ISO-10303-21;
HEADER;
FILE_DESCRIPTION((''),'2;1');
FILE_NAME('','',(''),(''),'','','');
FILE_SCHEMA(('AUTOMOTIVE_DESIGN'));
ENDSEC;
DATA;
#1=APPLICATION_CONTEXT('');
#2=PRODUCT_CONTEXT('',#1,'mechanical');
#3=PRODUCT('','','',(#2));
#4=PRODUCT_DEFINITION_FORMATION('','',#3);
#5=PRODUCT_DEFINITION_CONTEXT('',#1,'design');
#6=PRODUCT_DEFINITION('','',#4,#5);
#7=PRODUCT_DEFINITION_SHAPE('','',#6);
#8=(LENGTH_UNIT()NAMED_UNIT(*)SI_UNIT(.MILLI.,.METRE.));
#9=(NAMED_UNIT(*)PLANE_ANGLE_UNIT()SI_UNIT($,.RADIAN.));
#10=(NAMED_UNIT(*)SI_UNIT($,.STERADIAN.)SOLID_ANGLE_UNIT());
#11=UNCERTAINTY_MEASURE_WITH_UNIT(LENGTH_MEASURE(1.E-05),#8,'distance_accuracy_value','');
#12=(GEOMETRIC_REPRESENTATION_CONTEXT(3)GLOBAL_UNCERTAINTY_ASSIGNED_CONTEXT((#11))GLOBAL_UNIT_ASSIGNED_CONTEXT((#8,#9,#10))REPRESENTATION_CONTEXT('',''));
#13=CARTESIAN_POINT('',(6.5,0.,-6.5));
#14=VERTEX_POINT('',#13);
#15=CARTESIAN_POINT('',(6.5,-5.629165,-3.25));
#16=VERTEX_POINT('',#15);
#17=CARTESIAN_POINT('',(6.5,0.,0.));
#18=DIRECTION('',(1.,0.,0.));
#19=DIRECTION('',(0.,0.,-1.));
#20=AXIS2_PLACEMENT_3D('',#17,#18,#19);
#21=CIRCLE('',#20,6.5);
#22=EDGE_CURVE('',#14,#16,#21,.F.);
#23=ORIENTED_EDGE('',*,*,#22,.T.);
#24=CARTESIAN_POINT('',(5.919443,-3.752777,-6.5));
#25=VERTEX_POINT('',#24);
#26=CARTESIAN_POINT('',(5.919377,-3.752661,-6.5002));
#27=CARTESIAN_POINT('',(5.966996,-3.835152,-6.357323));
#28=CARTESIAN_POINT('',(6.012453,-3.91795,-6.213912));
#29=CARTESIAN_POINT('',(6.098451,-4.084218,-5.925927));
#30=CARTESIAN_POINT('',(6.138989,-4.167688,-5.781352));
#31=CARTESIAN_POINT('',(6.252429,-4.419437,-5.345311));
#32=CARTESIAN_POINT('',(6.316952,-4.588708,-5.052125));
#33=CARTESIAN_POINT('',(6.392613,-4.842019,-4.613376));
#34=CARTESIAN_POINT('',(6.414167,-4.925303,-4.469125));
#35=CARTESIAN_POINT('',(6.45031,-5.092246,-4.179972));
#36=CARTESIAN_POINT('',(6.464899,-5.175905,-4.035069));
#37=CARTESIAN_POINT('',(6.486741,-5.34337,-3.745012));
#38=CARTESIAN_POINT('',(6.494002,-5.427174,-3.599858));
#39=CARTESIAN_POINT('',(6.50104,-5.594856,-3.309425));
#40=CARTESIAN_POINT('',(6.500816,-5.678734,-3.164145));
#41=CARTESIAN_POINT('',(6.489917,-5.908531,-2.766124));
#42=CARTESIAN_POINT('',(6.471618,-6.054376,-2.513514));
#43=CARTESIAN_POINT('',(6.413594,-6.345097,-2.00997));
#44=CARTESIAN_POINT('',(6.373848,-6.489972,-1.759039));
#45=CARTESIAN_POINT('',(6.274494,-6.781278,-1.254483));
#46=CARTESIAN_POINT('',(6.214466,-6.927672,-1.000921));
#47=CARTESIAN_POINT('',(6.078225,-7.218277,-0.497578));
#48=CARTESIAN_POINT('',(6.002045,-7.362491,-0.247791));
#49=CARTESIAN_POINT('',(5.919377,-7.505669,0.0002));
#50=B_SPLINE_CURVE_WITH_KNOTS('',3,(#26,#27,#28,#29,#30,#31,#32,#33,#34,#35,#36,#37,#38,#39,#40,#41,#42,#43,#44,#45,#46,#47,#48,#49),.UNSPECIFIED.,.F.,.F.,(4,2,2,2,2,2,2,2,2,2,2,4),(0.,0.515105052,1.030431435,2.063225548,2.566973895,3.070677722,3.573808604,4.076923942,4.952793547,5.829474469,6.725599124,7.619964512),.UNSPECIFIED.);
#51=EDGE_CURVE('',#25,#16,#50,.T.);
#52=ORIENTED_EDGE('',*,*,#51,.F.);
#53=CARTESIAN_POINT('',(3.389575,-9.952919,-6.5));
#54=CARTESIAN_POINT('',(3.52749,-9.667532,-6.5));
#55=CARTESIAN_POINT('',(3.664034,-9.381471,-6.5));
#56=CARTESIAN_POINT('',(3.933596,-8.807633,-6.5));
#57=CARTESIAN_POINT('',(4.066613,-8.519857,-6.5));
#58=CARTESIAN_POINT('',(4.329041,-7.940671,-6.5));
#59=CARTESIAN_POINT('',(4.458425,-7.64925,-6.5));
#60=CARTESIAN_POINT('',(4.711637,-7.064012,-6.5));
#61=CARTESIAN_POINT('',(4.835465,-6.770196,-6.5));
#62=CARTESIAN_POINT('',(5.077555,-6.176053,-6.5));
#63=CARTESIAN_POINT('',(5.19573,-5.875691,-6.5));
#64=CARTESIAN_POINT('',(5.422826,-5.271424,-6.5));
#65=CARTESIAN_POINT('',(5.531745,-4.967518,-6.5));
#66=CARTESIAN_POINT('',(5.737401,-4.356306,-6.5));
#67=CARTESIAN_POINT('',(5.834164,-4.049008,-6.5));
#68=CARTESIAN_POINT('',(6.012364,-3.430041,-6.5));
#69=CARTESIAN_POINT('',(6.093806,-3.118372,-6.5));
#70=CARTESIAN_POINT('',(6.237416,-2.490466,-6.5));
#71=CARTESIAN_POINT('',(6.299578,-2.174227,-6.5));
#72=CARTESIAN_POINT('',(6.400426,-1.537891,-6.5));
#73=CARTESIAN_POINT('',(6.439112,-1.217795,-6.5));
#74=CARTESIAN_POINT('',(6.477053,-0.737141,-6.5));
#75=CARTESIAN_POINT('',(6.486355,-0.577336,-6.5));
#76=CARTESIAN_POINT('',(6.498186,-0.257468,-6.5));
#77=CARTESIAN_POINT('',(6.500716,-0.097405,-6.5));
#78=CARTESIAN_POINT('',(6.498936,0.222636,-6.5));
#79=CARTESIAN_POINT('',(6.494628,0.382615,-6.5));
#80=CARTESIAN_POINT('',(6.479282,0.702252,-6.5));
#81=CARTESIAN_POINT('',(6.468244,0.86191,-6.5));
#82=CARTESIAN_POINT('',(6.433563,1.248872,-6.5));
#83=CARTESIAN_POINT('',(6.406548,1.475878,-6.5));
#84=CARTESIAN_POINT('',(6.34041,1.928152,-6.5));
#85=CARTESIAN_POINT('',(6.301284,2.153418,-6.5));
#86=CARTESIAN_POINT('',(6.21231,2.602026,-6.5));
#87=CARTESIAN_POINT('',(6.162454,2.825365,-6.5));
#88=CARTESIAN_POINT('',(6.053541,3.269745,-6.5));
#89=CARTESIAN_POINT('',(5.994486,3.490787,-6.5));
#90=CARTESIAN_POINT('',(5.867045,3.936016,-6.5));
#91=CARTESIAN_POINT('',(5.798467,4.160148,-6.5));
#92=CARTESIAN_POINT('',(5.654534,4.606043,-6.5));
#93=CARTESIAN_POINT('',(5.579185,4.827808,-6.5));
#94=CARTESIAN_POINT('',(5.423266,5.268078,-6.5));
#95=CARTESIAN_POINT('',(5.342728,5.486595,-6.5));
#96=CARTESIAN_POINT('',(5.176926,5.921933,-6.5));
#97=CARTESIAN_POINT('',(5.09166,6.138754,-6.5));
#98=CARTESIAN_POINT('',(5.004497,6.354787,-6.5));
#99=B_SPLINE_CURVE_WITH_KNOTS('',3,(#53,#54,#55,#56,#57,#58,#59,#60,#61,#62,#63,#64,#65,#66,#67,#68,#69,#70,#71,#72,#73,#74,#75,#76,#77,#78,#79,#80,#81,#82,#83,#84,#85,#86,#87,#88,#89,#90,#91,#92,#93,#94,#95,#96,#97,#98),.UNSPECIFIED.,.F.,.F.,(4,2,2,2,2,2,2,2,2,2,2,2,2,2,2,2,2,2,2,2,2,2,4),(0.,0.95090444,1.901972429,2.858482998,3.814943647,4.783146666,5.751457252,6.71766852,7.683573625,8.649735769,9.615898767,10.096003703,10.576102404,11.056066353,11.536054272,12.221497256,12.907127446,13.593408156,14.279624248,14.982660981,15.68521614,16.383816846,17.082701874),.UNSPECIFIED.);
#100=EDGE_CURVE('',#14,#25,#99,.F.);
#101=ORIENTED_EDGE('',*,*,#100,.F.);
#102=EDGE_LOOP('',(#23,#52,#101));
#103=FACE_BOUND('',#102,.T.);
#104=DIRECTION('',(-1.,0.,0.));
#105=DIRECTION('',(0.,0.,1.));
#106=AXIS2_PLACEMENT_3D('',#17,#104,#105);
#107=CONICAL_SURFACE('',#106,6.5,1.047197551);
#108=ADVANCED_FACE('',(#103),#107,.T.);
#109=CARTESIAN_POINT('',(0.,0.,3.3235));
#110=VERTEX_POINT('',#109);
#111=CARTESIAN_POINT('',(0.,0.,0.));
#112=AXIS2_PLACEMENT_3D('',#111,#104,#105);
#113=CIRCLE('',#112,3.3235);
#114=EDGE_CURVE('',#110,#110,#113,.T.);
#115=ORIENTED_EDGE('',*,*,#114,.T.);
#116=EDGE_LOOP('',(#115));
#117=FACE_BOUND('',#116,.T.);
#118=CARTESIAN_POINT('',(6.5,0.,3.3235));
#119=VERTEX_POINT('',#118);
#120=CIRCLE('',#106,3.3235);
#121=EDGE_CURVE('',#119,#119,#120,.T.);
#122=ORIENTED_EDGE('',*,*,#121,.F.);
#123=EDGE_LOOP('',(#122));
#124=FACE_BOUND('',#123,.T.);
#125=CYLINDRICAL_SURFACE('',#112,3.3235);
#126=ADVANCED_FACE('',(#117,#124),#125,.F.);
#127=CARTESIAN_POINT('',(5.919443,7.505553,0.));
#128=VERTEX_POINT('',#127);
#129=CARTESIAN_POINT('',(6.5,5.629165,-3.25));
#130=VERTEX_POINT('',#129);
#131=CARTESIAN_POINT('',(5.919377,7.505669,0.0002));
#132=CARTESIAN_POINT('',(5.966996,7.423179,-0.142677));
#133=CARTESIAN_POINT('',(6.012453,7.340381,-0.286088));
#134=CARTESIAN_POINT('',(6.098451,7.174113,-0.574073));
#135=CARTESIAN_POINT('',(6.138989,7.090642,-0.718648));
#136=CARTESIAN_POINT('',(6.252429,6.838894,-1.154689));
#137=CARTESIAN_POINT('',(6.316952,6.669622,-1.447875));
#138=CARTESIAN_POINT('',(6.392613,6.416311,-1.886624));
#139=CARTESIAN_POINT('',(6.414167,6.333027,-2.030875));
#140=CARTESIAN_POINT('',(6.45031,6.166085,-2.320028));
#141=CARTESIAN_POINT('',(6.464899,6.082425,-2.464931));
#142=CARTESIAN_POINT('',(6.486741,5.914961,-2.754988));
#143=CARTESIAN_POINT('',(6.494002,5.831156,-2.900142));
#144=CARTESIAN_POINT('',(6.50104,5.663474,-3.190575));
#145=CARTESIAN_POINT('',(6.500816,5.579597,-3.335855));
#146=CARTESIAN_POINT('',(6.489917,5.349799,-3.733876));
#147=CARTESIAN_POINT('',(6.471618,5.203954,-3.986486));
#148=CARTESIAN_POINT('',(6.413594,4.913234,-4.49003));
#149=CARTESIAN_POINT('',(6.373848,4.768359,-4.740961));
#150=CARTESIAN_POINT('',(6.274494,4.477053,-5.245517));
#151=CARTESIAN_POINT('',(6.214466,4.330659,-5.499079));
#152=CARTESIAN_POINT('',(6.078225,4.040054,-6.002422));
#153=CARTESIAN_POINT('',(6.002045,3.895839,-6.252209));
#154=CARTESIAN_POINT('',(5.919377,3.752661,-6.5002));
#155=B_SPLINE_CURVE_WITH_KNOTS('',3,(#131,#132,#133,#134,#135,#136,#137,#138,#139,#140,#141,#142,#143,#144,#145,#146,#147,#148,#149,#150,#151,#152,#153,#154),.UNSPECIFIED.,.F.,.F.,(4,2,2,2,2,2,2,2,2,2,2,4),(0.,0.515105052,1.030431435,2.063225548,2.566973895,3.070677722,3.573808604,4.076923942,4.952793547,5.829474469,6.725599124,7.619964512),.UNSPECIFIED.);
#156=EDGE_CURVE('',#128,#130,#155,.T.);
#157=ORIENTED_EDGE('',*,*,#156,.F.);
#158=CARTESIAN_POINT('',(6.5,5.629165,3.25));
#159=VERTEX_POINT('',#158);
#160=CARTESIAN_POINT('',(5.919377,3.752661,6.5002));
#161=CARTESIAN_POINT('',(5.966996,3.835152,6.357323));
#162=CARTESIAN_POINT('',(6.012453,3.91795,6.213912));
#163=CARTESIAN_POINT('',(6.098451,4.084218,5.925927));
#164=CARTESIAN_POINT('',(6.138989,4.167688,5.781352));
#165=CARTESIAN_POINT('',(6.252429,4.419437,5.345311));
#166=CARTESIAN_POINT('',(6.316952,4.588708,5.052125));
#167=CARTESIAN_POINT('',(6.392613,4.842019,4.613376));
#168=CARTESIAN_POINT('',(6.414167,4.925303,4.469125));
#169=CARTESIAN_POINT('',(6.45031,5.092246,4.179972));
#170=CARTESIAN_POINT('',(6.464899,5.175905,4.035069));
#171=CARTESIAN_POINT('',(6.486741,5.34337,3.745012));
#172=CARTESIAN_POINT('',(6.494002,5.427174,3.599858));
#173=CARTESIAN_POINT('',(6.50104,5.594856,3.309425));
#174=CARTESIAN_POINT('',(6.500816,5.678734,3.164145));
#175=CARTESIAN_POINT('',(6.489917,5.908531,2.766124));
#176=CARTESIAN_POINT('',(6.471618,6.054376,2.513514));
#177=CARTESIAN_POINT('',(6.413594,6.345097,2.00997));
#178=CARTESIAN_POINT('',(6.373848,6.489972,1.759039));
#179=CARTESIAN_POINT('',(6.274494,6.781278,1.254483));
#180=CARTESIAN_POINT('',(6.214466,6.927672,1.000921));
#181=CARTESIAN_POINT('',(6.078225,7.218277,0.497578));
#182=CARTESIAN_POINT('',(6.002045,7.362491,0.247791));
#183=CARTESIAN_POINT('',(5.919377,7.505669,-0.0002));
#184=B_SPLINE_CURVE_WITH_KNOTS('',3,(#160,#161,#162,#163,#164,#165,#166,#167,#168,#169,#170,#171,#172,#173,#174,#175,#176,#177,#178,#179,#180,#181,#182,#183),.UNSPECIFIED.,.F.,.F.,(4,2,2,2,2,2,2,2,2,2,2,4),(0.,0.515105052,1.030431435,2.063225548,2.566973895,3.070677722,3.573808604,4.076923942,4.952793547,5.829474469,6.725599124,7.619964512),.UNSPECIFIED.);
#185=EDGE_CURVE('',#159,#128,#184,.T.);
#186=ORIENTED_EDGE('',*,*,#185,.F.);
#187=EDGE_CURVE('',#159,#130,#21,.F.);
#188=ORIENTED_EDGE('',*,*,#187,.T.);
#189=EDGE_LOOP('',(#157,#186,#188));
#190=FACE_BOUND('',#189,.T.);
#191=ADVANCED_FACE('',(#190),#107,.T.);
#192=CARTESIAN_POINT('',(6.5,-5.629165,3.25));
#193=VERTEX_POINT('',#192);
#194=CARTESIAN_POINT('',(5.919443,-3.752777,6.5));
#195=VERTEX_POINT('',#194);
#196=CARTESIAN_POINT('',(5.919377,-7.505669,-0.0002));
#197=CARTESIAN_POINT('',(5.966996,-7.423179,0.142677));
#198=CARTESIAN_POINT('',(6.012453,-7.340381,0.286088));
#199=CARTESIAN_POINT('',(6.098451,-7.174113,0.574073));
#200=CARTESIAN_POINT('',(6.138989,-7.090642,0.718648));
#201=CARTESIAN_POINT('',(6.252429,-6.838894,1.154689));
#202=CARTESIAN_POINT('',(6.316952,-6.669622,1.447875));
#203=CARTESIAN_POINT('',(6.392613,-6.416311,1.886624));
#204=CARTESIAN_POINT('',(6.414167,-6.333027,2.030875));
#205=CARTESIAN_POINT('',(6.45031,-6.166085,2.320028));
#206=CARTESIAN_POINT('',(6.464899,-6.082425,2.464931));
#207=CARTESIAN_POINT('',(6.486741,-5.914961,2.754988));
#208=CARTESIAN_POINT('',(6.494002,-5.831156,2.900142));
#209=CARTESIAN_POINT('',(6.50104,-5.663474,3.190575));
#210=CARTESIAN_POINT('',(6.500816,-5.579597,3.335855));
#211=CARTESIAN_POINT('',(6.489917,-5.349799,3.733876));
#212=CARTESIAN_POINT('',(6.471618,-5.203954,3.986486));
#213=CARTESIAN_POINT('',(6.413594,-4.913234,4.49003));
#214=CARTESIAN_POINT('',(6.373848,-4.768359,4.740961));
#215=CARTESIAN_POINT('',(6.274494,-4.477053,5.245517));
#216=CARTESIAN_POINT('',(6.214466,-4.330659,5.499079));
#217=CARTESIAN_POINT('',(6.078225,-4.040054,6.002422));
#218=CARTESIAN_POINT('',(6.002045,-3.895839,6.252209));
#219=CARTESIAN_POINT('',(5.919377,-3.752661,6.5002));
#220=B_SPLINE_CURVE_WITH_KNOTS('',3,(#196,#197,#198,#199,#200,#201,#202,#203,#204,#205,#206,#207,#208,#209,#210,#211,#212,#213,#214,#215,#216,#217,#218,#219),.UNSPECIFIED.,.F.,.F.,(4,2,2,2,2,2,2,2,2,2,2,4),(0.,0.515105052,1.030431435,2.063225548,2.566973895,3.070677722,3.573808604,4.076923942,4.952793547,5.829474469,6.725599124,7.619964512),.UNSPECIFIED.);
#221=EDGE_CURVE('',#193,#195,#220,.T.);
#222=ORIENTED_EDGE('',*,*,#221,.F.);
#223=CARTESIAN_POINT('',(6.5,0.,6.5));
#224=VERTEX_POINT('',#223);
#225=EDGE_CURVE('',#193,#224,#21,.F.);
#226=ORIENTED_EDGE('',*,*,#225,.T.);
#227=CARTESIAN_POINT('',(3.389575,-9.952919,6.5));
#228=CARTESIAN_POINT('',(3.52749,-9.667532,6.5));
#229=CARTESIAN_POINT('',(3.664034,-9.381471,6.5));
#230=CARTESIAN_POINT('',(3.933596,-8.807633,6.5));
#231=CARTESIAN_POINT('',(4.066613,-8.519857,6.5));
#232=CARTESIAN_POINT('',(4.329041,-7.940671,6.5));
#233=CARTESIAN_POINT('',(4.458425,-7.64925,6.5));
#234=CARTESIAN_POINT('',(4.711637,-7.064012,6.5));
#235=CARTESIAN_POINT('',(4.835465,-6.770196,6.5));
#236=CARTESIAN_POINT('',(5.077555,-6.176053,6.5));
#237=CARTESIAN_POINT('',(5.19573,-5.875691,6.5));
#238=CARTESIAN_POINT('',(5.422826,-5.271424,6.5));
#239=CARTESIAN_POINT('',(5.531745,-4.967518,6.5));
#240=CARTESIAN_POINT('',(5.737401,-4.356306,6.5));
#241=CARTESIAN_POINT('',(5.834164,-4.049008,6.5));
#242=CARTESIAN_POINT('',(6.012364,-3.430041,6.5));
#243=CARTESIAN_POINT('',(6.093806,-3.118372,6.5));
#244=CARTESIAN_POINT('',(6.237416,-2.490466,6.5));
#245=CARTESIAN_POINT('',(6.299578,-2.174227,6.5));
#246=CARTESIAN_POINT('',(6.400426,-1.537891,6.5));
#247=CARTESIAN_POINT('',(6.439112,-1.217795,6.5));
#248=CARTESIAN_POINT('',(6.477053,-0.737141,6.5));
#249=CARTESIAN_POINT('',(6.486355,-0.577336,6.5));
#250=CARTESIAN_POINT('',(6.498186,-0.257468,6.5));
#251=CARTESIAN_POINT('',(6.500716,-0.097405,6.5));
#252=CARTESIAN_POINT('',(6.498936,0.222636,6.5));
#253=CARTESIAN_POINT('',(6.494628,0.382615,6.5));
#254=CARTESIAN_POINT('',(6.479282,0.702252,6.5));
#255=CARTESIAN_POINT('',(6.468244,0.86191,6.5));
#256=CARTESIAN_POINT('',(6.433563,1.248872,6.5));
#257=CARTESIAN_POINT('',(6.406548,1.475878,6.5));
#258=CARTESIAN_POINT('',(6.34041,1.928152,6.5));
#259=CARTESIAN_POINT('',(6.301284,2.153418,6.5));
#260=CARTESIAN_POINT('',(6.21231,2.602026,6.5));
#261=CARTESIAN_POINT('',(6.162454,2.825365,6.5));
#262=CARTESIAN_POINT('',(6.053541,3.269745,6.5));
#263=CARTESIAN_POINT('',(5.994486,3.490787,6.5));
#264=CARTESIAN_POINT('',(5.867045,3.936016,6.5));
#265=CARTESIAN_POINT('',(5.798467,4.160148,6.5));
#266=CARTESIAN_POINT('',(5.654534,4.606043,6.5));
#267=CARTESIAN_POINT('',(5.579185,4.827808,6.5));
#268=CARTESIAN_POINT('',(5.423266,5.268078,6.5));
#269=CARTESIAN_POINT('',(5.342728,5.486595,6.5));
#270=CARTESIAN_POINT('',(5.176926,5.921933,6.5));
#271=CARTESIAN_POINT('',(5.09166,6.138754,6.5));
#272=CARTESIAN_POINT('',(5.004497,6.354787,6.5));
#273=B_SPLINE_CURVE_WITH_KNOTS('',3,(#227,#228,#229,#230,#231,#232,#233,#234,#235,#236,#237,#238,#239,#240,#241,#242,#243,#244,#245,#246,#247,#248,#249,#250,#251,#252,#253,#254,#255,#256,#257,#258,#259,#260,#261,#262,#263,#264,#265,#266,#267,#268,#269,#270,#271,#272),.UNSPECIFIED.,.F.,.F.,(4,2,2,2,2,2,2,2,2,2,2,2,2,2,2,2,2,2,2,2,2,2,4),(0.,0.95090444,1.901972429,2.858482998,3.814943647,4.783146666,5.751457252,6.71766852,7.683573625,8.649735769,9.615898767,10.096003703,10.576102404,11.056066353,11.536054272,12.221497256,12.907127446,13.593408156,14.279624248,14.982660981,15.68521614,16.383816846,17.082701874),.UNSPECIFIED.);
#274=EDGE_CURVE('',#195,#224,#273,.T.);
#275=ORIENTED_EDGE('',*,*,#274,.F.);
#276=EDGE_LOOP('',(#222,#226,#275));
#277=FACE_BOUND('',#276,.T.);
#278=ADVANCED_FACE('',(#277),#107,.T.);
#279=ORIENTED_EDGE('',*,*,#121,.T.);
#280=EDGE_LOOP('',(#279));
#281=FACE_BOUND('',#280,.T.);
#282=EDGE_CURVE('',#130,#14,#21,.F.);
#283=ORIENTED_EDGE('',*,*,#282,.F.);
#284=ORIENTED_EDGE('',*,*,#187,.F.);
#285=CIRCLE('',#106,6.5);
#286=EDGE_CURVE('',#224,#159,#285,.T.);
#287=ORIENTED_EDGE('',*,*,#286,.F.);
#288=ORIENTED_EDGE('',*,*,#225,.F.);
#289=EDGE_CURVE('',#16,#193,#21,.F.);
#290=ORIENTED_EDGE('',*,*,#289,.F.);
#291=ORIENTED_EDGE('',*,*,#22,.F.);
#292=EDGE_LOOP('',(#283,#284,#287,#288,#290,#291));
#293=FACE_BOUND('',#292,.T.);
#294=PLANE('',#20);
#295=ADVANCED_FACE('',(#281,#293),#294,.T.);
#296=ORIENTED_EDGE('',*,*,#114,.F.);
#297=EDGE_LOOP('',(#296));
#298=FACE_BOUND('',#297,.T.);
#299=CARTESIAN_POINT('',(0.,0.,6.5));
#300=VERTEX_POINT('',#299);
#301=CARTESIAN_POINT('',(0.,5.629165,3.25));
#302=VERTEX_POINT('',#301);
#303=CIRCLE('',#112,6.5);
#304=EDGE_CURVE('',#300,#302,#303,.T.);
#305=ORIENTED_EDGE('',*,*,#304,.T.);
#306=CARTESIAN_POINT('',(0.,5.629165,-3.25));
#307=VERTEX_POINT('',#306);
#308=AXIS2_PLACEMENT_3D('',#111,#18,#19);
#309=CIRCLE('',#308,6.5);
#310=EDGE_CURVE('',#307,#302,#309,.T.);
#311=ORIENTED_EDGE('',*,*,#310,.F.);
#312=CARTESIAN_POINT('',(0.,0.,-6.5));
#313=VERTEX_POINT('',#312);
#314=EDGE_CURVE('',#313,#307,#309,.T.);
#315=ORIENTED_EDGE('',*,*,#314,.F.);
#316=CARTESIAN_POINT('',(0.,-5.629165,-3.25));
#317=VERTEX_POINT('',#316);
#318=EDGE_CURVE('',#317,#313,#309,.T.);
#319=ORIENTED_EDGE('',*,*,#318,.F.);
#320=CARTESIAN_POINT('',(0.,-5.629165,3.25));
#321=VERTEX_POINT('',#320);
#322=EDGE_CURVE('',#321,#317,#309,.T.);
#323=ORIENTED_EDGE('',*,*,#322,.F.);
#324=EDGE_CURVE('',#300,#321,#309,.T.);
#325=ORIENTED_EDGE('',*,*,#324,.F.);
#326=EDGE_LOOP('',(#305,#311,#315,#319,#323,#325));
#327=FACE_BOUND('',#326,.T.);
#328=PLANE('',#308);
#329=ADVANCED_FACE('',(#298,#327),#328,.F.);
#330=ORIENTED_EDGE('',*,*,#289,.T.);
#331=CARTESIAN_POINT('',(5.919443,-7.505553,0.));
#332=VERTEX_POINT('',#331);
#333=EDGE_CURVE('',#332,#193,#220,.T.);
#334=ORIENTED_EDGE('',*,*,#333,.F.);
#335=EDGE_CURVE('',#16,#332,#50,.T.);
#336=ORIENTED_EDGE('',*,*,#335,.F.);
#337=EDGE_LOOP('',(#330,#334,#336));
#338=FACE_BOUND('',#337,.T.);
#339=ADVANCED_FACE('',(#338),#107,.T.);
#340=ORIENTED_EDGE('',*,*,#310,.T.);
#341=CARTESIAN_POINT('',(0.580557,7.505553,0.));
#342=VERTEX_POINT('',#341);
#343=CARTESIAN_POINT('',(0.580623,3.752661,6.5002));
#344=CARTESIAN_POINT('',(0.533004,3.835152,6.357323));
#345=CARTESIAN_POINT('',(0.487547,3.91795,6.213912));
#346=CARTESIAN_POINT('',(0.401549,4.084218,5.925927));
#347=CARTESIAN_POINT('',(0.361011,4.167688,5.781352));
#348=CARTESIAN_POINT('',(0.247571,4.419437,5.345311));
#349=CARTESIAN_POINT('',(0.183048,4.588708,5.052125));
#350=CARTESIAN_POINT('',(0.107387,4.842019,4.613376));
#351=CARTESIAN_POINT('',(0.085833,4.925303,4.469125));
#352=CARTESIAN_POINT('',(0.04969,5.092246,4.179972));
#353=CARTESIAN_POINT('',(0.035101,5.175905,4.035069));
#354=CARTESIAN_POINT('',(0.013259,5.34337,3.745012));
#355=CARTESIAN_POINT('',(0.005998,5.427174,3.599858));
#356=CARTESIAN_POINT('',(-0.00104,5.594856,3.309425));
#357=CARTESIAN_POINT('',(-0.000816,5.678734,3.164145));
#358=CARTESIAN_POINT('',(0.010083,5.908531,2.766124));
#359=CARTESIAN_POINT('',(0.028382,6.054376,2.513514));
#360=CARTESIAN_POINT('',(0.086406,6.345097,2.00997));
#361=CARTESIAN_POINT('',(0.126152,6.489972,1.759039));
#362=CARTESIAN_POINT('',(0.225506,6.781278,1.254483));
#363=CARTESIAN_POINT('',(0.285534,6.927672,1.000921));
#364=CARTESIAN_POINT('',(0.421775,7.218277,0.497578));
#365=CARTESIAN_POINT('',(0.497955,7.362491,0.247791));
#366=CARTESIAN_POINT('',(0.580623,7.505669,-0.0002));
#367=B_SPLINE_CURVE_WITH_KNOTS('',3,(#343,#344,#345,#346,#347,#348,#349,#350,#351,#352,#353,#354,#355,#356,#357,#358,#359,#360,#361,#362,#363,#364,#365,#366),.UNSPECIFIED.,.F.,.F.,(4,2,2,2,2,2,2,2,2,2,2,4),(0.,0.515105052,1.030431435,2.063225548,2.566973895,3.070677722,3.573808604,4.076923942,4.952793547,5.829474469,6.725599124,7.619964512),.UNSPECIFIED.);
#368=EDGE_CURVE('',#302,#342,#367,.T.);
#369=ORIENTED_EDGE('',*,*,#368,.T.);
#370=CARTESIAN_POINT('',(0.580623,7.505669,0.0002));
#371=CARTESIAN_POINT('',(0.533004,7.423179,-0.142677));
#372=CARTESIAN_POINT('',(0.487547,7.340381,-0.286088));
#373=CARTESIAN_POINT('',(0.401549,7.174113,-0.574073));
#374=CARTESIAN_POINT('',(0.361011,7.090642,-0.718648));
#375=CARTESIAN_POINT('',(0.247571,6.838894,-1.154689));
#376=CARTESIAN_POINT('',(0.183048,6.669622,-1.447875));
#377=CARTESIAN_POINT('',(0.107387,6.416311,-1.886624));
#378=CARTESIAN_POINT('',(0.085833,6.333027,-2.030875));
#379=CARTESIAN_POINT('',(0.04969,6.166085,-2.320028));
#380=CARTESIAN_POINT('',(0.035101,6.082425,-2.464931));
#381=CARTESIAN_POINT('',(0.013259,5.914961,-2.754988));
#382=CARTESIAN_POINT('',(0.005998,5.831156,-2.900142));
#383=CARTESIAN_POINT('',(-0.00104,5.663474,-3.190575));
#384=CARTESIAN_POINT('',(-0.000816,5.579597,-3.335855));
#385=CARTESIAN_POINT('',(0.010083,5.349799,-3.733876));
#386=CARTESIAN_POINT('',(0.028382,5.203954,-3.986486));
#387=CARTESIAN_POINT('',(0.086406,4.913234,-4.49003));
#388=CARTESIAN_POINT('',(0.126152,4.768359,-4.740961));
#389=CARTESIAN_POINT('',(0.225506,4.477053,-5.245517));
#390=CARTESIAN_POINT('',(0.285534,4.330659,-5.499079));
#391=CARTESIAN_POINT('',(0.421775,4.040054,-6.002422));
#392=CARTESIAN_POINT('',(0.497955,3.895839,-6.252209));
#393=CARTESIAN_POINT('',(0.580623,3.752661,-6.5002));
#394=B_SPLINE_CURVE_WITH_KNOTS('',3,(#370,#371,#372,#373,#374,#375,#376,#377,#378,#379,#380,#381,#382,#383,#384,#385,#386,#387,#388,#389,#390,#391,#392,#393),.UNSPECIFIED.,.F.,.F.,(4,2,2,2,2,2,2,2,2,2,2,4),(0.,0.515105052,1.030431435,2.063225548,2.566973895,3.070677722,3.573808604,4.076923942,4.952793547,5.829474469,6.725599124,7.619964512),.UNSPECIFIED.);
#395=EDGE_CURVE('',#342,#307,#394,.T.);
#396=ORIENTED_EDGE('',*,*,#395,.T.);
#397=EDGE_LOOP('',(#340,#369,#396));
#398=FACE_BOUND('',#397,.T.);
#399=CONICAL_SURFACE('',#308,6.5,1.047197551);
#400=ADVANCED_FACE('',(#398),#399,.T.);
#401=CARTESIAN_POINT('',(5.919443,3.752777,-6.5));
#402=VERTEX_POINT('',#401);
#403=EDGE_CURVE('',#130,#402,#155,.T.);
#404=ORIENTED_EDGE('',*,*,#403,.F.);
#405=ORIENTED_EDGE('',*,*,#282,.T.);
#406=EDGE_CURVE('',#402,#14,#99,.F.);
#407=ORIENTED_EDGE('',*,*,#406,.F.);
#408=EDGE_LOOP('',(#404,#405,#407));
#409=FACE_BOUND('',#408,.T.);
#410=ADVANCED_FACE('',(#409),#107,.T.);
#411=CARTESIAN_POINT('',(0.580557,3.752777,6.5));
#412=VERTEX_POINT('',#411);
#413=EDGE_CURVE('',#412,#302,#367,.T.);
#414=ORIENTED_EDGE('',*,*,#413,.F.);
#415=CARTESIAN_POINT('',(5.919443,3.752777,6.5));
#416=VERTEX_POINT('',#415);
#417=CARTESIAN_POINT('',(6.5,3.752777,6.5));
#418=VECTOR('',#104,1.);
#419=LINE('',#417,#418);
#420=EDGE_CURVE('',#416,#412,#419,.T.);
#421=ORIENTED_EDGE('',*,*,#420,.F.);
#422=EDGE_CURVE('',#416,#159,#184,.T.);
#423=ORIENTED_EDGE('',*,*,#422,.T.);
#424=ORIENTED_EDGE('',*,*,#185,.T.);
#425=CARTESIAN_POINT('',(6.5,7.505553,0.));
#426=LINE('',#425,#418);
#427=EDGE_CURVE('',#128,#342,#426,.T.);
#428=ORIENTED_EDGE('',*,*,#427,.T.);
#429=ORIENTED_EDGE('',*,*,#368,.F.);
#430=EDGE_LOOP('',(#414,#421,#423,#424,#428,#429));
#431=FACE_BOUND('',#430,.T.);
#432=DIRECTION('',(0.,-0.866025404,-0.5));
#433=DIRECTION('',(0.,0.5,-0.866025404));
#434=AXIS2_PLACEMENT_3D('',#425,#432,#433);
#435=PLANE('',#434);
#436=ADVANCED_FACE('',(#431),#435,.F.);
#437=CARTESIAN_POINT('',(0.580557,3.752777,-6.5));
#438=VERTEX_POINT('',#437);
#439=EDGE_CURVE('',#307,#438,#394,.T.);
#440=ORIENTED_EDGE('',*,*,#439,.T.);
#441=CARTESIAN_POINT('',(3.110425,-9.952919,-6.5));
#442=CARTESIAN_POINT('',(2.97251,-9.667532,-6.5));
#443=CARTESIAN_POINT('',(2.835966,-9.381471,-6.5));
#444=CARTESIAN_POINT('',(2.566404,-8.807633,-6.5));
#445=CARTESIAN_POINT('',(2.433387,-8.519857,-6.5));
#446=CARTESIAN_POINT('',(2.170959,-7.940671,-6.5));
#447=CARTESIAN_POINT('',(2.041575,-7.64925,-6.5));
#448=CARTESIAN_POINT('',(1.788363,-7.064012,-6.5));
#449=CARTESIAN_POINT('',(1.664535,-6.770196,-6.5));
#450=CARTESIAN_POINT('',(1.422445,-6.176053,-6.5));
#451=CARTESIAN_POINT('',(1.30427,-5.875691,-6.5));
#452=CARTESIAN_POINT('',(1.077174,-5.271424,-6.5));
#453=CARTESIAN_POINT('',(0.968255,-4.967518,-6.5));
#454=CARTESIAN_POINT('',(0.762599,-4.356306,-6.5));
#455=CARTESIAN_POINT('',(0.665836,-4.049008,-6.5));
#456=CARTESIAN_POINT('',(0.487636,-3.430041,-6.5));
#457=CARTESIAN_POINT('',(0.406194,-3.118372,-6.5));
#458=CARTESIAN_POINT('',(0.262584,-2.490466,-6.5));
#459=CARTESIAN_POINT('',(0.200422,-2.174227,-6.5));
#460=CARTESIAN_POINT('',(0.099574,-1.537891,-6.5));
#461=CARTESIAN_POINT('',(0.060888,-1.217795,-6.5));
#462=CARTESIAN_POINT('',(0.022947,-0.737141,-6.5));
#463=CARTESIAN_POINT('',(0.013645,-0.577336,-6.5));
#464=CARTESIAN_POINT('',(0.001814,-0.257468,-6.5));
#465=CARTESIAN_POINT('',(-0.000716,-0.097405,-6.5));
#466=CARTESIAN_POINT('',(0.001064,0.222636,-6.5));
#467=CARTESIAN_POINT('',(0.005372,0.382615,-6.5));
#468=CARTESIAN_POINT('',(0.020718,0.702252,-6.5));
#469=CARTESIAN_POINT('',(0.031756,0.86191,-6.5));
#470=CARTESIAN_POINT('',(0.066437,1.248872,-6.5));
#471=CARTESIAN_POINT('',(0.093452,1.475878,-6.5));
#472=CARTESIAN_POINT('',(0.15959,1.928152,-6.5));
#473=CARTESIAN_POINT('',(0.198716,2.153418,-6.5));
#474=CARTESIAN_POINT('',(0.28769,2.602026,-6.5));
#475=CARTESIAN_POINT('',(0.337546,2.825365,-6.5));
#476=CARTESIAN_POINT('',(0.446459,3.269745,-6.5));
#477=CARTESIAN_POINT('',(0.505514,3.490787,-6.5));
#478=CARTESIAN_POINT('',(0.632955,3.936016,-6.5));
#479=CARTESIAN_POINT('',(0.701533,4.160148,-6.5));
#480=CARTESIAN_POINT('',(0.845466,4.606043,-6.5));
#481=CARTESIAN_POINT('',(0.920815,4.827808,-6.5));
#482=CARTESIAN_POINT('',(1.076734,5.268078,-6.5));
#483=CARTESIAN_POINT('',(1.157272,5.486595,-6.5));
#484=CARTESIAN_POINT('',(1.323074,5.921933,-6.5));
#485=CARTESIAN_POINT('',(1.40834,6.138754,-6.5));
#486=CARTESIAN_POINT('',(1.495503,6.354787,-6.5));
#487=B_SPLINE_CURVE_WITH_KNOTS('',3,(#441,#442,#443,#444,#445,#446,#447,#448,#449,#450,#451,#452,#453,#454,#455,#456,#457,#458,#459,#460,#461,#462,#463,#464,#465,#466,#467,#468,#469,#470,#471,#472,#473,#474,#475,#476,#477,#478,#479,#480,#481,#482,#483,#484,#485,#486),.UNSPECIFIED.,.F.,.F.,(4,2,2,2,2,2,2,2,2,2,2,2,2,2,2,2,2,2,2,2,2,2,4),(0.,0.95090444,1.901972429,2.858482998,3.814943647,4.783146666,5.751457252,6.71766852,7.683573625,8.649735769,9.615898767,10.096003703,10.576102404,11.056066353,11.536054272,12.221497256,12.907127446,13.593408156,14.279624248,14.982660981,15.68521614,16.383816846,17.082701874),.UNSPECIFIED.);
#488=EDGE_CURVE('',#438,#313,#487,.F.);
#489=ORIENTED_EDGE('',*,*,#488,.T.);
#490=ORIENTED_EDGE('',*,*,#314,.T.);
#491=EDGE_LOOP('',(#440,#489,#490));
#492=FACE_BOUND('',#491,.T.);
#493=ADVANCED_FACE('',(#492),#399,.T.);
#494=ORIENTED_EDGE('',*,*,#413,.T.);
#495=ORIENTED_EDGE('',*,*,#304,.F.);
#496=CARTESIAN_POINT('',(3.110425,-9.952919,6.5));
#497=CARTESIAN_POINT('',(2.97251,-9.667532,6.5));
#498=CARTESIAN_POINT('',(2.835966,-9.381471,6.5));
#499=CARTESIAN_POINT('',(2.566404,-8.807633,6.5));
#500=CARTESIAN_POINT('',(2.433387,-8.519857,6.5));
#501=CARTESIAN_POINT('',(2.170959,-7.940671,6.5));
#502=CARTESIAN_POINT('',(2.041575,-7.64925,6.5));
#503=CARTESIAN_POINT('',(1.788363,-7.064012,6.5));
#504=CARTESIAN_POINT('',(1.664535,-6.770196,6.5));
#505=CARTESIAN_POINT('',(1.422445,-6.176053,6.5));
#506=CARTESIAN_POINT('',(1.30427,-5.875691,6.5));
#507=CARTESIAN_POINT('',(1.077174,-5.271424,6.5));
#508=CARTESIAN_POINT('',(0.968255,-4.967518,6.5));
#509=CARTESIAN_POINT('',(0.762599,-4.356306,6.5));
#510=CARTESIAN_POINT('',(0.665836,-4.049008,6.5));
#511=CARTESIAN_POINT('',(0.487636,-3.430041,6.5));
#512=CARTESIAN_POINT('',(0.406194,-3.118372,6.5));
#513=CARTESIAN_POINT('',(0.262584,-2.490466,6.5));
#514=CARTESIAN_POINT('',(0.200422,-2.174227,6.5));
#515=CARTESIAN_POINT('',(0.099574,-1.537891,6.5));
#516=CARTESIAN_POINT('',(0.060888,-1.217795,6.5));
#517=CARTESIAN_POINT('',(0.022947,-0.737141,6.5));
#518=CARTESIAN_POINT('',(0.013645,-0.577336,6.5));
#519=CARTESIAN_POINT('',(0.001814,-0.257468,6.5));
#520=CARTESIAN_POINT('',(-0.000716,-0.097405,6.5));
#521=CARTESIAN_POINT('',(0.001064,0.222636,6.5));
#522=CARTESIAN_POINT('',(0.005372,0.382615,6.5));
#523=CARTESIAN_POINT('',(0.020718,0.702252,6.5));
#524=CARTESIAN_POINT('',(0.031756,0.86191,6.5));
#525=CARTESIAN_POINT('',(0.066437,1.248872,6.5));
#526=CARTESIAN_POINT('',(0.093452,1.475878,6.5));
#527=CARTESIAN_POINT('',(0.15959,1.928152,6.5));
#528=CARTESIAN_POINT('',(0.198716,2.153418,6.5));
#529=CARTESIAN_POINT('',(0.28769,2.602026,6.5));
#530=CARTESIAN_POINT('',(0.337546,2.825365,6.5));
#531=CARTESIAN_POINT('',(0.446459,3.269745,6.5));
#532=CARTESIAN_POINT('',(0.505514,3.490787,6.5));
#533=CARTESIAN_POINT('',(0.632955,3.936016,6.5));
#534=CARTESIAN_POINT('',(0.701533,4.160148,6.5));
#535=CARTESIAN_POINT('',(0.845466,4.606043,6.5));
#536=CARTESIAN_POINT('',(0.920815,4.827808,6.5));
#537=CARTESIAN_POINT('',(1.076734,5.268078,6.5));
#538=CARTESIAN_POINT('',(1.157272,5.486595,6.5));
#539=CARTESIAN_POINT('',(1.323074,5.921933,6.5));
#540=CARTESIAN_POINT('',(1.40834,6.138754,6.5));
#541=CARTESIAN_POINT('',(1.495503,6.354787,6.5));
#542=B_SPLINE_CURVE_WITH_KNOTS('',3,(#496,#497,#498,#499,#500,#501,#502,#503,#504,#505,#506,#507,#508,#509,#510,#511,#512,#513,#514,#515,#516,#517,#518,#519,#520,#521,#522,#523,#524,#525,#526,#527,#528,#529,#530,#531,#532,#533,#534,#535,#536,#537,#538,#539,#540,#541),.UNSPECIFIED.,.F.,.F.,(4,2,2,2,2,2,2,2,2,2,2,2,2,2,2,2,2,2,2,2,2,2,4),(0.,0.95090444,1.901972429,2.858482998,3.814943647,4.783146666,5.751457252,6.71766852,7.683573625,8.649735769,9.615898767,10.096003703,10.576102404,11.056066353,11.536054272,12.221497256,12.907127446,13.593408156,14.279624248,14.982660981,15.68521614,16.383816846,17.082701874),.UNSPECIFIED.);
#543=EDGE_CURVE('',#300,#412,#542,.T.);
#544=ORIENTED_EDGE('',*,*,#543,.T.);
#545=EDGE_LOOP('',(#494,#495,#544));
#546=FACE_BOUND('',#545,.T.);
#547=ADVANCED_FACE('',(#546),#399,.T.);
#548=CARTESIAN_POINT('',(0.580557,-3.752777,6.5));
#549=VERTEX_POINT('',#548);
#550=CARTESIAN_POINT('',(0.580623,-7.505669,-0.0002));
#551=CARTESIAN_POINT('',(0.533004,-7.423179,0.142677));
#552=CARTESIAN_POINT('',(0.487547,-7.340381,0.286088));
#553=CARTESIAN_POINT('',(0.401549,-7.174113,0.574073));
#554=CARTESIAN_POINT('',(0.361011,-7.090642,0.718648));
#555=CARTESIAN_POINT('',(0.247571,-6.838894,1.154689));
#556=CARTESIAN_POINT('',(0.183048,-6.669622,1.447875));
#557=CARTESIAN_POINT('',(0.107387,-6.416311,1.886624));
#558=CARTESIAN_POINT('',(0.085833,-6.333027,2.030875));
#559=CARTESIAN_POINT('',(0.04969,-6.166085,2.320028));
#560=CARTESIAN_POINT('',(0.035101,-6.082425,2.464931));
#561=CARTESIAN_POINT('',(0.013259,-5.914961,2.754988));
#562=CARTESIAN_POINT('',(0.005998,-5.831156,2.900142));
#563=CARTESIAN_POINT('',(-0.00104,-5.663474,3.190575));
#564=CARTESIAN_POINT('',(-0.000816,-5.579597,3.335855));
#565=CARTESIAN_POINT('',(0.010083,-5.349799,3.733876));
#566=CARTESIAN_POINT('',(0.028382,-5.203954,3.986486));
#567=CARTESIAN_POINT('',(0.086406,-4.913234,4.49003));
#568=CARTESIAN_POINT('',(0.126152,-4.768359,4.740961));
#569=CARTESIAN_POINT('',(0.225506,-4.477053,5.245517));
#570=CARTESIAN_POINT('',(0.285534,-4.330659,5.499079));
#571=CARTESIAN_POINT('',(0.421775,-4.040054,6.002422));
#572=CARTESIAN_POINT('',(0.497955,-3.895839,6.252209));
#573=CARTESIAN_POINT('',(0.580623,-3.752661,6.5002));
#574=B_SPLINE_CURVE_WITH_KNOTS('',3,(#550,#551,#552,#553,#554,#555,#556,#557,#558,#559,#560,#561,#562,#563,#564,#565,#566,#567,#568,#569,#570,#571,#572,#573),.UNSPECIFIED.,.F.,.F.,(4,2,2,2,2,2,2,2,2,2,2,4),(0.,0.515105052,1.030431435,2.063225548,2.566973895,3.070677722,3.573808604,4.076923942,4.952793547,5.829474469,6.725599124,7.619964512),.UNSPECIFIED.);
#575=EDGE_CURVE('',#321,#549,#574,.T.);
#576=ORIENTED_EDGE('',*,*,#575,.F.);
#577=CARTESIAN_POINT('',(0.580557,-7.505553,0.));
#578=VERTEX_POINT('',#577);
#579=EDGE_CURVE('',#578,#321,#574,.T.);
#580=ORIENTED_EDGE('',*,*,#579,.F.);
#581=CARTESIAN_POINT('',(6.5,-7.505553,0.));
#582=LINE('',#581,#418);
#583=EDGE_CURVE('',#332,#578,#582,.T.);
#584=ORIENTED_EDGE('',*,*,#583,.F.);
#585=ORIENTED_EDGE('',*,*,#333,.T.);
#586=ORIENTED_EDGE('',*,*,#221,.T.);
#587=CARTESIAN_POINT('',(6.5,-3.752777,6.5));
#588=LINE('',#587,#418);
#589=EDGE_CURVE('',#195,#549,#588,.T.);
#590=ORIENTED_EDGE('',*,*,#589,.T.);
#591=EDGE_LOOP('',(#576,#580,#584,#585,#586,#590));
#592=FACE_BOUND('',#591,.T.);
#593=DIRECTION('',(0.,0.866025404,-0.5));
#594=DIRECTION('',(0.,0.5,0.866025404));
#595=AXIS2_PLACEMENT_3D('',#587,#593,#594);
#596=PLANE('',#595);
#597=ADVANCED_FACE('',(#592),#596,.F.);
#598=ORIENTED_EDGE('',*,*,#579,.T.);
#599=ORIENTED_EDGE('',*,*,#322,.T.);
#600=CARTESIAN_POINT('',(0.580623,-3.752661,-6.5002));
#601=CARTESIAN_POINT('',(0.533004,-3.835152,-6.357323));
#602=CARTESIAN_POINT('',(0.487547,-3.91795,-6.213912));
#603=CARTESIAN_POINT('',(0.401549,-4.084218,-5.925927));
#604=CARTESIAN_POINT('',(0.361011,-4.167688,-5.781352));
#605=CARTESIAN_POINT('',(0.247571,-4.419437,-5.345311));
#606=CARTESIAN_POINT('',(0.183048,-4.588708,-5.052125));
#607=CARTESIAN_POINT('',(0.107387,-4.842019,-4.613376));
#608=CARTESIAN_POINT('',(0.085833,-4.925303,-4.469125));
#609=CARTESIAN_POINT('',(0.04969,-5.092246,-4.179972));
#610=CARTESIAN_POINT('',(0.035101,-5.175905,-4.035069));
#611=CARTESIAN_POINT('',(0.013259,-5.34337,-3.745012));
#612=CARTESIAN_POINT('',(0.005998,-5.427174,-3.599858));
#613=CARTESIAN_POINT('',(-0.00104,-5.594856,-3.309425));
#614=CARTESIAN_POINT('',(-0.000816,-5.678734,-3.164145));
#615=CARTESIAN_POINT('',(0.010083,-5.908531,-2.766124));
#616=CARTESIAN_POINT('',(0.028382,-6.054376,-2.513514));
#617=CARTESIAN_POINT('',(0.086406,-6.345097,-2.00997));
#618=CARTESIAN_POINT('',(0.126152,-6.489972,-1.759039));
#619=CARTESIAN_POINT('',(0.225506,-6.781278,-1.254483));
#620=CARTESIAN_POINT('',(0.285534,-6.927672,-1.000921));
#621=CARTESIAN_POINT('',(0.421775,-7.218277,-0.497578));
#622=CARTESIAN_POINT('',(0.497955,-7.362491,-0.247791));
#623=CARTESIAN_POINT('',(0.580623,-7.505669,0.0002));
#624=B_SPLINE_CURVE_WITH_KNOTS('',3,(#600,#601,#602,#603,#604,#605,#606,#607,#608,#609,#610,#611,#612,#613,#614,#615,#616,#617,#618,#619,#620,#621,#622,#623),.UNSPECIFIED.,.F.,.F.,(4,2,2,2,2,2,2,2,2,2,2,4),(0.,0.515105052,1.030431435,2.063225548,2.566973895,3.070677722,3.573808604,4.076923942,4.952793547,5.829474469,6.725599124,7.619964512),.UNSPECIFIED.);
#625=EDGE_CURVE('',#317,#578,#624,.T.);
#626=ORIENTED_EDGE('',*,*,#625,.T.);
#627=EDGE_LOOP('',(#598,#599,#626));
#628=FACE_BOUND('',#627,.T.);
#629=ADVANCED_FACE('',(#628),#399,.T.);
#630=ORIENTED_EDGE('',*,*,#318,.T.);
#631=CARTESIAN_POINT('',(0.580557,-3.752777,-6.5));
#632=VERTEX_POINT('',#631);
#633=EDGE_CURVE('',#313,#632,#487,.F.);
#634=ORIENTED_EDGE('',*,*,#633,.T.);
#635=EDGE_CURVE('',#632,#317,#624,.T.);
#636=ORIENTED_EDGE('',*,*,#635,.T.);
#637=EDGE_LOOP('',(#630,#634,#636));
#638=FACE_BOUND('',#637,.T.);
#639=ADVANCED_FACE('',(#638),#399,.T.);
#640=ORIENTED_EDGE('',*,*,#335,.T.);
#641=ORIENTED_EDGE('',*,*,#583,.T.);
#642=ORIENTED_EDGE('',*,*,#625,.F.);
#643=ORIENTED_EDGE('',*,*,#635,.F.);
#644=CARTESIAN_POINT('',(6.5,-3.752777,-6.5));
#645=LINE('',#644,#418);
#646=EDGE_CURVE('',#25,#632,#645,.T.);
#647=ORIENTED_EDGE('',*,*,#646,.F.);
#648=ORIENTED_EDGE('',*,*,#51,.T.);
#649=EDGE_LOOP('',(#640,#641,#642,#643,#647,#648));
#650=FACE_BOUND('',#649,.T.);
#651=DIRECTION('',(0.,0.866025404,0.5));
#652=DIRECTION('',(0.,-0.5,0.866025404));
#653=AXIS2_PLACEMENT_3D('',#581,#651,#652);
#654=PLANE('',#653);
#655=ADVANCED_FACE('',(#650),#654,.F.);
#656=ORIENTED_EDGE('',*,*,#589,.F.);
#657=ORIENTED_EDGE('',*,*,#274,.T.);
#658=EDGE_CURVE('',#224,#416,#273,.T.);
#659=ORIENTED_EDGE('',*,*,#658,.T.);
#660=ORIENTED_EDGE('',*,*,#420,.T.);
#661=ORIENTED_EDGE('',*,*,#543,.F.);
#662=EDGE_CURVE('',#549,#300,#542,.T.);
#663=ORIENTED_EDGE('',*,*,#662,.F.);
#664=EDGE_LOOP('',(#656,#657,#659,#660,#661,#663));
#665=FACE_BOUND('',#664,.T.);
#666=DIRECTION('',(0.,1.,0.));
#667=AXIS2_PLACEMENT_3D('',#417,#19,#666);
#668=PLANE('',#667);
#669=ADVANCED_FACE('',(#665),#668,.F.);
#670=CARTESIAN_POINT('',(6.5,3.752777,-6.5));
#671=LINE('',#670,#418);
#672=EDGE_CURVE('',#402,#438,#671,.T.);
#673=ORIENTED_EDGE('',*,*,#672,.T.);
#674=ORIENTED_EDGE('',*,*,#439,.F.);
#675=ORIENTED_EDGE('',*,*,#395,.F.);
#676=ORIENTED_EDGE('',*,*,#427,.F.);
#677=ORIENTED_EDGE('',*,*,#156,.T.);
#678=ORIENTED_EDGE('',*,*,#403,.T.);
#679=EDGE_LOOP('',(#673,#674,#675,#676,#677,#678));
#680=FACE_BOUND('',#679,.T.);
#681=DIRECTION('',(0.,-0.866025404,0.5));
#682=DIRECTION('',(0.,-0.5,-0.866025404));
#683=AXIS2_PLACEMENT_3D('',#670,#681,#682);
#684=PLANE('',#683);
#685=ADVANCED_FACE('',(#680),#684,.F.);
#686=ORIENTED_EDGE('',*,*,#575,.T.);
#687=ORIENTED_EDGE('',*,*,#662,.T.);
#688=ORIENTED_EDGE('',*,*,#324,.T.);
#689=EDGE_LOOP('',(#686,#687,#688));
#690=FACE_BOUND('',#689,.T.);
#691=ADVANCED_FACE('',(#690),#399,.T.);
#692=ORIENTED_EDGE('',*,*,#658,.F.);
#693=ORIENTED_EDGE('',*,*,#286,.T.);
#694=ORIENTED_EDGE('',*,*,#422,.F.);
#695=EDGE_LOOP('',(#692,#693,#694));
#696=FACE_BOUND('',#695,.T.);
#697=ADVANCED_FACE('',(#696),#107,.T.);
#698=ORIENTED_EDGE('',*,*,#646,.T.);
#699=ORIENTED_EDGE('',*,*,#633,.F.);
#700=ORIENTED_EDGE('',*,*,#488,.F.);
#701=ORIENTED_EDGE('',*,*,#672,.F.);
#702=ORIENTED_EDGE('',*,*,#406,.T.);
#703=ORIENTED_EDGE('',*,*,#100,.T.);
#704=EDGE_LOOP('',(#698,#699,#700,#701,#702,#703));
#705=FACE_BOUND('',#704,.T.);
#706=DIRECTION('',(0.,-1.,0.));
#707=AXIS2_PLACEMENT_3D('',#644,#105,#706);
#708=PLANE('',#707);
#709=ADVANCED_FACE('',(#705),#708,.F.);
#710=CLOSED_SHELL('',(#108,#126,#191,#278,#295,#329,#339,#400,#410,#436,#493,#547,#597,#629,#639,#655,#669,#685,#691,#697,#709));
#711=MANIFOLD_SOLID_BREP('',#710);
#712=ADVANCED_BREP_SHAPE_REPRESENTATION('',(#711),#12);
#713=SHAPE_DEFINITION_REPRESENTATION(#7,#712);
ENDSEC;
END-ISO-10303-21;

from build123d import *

# Parameters (mm, degrees)
BOSS_EXTRUDE1_DEPTH = 6.5
TAP1_D              = 6.647


with BuildPart() as part:
    # Sketch1 → Boss-Extrude1 (new body)
    with BuildSketch(Plane(origin=(0, 0, 0), x_dir=(0, 0, -1), z_dir=(1, 0, 0))):
        Polygon((6.5, -3.75277675), (6.5, 3.75277675), (0, 7.505553499), (-6.5, 3.75277675), (-6.5, -3.75277675), (0, -7.505553499), align=None)
    extrude(amount=BOSS_EXTRUDE1_DEPTH)

    # Sketch2 → Cut-Revolve1 (revolve, cut)
    with BuildSketch(Plane.XY):
        Polygon((6.5, 7.505553499), (6.5, 6.5), (5.919443416, 7.505553499), align=None)
        Polygon((0, 7.505553499), (0.580556584, 7.505553499), (0, 6.5), align=None)
    revolve(axis=Axis((-0.325, 0, 0), (1, 0, 0)), mode=Mode.SUBTRACT)

    # Tap1 (through all)
    with Locations(Plane(origin=(0, 0, 0), x_dir=(0, 0, -1), z_dir=(-1, 0, 0))):
        with Locations((0, 0)):
            Hole(TAP1_D / 2)


solid = part.part
